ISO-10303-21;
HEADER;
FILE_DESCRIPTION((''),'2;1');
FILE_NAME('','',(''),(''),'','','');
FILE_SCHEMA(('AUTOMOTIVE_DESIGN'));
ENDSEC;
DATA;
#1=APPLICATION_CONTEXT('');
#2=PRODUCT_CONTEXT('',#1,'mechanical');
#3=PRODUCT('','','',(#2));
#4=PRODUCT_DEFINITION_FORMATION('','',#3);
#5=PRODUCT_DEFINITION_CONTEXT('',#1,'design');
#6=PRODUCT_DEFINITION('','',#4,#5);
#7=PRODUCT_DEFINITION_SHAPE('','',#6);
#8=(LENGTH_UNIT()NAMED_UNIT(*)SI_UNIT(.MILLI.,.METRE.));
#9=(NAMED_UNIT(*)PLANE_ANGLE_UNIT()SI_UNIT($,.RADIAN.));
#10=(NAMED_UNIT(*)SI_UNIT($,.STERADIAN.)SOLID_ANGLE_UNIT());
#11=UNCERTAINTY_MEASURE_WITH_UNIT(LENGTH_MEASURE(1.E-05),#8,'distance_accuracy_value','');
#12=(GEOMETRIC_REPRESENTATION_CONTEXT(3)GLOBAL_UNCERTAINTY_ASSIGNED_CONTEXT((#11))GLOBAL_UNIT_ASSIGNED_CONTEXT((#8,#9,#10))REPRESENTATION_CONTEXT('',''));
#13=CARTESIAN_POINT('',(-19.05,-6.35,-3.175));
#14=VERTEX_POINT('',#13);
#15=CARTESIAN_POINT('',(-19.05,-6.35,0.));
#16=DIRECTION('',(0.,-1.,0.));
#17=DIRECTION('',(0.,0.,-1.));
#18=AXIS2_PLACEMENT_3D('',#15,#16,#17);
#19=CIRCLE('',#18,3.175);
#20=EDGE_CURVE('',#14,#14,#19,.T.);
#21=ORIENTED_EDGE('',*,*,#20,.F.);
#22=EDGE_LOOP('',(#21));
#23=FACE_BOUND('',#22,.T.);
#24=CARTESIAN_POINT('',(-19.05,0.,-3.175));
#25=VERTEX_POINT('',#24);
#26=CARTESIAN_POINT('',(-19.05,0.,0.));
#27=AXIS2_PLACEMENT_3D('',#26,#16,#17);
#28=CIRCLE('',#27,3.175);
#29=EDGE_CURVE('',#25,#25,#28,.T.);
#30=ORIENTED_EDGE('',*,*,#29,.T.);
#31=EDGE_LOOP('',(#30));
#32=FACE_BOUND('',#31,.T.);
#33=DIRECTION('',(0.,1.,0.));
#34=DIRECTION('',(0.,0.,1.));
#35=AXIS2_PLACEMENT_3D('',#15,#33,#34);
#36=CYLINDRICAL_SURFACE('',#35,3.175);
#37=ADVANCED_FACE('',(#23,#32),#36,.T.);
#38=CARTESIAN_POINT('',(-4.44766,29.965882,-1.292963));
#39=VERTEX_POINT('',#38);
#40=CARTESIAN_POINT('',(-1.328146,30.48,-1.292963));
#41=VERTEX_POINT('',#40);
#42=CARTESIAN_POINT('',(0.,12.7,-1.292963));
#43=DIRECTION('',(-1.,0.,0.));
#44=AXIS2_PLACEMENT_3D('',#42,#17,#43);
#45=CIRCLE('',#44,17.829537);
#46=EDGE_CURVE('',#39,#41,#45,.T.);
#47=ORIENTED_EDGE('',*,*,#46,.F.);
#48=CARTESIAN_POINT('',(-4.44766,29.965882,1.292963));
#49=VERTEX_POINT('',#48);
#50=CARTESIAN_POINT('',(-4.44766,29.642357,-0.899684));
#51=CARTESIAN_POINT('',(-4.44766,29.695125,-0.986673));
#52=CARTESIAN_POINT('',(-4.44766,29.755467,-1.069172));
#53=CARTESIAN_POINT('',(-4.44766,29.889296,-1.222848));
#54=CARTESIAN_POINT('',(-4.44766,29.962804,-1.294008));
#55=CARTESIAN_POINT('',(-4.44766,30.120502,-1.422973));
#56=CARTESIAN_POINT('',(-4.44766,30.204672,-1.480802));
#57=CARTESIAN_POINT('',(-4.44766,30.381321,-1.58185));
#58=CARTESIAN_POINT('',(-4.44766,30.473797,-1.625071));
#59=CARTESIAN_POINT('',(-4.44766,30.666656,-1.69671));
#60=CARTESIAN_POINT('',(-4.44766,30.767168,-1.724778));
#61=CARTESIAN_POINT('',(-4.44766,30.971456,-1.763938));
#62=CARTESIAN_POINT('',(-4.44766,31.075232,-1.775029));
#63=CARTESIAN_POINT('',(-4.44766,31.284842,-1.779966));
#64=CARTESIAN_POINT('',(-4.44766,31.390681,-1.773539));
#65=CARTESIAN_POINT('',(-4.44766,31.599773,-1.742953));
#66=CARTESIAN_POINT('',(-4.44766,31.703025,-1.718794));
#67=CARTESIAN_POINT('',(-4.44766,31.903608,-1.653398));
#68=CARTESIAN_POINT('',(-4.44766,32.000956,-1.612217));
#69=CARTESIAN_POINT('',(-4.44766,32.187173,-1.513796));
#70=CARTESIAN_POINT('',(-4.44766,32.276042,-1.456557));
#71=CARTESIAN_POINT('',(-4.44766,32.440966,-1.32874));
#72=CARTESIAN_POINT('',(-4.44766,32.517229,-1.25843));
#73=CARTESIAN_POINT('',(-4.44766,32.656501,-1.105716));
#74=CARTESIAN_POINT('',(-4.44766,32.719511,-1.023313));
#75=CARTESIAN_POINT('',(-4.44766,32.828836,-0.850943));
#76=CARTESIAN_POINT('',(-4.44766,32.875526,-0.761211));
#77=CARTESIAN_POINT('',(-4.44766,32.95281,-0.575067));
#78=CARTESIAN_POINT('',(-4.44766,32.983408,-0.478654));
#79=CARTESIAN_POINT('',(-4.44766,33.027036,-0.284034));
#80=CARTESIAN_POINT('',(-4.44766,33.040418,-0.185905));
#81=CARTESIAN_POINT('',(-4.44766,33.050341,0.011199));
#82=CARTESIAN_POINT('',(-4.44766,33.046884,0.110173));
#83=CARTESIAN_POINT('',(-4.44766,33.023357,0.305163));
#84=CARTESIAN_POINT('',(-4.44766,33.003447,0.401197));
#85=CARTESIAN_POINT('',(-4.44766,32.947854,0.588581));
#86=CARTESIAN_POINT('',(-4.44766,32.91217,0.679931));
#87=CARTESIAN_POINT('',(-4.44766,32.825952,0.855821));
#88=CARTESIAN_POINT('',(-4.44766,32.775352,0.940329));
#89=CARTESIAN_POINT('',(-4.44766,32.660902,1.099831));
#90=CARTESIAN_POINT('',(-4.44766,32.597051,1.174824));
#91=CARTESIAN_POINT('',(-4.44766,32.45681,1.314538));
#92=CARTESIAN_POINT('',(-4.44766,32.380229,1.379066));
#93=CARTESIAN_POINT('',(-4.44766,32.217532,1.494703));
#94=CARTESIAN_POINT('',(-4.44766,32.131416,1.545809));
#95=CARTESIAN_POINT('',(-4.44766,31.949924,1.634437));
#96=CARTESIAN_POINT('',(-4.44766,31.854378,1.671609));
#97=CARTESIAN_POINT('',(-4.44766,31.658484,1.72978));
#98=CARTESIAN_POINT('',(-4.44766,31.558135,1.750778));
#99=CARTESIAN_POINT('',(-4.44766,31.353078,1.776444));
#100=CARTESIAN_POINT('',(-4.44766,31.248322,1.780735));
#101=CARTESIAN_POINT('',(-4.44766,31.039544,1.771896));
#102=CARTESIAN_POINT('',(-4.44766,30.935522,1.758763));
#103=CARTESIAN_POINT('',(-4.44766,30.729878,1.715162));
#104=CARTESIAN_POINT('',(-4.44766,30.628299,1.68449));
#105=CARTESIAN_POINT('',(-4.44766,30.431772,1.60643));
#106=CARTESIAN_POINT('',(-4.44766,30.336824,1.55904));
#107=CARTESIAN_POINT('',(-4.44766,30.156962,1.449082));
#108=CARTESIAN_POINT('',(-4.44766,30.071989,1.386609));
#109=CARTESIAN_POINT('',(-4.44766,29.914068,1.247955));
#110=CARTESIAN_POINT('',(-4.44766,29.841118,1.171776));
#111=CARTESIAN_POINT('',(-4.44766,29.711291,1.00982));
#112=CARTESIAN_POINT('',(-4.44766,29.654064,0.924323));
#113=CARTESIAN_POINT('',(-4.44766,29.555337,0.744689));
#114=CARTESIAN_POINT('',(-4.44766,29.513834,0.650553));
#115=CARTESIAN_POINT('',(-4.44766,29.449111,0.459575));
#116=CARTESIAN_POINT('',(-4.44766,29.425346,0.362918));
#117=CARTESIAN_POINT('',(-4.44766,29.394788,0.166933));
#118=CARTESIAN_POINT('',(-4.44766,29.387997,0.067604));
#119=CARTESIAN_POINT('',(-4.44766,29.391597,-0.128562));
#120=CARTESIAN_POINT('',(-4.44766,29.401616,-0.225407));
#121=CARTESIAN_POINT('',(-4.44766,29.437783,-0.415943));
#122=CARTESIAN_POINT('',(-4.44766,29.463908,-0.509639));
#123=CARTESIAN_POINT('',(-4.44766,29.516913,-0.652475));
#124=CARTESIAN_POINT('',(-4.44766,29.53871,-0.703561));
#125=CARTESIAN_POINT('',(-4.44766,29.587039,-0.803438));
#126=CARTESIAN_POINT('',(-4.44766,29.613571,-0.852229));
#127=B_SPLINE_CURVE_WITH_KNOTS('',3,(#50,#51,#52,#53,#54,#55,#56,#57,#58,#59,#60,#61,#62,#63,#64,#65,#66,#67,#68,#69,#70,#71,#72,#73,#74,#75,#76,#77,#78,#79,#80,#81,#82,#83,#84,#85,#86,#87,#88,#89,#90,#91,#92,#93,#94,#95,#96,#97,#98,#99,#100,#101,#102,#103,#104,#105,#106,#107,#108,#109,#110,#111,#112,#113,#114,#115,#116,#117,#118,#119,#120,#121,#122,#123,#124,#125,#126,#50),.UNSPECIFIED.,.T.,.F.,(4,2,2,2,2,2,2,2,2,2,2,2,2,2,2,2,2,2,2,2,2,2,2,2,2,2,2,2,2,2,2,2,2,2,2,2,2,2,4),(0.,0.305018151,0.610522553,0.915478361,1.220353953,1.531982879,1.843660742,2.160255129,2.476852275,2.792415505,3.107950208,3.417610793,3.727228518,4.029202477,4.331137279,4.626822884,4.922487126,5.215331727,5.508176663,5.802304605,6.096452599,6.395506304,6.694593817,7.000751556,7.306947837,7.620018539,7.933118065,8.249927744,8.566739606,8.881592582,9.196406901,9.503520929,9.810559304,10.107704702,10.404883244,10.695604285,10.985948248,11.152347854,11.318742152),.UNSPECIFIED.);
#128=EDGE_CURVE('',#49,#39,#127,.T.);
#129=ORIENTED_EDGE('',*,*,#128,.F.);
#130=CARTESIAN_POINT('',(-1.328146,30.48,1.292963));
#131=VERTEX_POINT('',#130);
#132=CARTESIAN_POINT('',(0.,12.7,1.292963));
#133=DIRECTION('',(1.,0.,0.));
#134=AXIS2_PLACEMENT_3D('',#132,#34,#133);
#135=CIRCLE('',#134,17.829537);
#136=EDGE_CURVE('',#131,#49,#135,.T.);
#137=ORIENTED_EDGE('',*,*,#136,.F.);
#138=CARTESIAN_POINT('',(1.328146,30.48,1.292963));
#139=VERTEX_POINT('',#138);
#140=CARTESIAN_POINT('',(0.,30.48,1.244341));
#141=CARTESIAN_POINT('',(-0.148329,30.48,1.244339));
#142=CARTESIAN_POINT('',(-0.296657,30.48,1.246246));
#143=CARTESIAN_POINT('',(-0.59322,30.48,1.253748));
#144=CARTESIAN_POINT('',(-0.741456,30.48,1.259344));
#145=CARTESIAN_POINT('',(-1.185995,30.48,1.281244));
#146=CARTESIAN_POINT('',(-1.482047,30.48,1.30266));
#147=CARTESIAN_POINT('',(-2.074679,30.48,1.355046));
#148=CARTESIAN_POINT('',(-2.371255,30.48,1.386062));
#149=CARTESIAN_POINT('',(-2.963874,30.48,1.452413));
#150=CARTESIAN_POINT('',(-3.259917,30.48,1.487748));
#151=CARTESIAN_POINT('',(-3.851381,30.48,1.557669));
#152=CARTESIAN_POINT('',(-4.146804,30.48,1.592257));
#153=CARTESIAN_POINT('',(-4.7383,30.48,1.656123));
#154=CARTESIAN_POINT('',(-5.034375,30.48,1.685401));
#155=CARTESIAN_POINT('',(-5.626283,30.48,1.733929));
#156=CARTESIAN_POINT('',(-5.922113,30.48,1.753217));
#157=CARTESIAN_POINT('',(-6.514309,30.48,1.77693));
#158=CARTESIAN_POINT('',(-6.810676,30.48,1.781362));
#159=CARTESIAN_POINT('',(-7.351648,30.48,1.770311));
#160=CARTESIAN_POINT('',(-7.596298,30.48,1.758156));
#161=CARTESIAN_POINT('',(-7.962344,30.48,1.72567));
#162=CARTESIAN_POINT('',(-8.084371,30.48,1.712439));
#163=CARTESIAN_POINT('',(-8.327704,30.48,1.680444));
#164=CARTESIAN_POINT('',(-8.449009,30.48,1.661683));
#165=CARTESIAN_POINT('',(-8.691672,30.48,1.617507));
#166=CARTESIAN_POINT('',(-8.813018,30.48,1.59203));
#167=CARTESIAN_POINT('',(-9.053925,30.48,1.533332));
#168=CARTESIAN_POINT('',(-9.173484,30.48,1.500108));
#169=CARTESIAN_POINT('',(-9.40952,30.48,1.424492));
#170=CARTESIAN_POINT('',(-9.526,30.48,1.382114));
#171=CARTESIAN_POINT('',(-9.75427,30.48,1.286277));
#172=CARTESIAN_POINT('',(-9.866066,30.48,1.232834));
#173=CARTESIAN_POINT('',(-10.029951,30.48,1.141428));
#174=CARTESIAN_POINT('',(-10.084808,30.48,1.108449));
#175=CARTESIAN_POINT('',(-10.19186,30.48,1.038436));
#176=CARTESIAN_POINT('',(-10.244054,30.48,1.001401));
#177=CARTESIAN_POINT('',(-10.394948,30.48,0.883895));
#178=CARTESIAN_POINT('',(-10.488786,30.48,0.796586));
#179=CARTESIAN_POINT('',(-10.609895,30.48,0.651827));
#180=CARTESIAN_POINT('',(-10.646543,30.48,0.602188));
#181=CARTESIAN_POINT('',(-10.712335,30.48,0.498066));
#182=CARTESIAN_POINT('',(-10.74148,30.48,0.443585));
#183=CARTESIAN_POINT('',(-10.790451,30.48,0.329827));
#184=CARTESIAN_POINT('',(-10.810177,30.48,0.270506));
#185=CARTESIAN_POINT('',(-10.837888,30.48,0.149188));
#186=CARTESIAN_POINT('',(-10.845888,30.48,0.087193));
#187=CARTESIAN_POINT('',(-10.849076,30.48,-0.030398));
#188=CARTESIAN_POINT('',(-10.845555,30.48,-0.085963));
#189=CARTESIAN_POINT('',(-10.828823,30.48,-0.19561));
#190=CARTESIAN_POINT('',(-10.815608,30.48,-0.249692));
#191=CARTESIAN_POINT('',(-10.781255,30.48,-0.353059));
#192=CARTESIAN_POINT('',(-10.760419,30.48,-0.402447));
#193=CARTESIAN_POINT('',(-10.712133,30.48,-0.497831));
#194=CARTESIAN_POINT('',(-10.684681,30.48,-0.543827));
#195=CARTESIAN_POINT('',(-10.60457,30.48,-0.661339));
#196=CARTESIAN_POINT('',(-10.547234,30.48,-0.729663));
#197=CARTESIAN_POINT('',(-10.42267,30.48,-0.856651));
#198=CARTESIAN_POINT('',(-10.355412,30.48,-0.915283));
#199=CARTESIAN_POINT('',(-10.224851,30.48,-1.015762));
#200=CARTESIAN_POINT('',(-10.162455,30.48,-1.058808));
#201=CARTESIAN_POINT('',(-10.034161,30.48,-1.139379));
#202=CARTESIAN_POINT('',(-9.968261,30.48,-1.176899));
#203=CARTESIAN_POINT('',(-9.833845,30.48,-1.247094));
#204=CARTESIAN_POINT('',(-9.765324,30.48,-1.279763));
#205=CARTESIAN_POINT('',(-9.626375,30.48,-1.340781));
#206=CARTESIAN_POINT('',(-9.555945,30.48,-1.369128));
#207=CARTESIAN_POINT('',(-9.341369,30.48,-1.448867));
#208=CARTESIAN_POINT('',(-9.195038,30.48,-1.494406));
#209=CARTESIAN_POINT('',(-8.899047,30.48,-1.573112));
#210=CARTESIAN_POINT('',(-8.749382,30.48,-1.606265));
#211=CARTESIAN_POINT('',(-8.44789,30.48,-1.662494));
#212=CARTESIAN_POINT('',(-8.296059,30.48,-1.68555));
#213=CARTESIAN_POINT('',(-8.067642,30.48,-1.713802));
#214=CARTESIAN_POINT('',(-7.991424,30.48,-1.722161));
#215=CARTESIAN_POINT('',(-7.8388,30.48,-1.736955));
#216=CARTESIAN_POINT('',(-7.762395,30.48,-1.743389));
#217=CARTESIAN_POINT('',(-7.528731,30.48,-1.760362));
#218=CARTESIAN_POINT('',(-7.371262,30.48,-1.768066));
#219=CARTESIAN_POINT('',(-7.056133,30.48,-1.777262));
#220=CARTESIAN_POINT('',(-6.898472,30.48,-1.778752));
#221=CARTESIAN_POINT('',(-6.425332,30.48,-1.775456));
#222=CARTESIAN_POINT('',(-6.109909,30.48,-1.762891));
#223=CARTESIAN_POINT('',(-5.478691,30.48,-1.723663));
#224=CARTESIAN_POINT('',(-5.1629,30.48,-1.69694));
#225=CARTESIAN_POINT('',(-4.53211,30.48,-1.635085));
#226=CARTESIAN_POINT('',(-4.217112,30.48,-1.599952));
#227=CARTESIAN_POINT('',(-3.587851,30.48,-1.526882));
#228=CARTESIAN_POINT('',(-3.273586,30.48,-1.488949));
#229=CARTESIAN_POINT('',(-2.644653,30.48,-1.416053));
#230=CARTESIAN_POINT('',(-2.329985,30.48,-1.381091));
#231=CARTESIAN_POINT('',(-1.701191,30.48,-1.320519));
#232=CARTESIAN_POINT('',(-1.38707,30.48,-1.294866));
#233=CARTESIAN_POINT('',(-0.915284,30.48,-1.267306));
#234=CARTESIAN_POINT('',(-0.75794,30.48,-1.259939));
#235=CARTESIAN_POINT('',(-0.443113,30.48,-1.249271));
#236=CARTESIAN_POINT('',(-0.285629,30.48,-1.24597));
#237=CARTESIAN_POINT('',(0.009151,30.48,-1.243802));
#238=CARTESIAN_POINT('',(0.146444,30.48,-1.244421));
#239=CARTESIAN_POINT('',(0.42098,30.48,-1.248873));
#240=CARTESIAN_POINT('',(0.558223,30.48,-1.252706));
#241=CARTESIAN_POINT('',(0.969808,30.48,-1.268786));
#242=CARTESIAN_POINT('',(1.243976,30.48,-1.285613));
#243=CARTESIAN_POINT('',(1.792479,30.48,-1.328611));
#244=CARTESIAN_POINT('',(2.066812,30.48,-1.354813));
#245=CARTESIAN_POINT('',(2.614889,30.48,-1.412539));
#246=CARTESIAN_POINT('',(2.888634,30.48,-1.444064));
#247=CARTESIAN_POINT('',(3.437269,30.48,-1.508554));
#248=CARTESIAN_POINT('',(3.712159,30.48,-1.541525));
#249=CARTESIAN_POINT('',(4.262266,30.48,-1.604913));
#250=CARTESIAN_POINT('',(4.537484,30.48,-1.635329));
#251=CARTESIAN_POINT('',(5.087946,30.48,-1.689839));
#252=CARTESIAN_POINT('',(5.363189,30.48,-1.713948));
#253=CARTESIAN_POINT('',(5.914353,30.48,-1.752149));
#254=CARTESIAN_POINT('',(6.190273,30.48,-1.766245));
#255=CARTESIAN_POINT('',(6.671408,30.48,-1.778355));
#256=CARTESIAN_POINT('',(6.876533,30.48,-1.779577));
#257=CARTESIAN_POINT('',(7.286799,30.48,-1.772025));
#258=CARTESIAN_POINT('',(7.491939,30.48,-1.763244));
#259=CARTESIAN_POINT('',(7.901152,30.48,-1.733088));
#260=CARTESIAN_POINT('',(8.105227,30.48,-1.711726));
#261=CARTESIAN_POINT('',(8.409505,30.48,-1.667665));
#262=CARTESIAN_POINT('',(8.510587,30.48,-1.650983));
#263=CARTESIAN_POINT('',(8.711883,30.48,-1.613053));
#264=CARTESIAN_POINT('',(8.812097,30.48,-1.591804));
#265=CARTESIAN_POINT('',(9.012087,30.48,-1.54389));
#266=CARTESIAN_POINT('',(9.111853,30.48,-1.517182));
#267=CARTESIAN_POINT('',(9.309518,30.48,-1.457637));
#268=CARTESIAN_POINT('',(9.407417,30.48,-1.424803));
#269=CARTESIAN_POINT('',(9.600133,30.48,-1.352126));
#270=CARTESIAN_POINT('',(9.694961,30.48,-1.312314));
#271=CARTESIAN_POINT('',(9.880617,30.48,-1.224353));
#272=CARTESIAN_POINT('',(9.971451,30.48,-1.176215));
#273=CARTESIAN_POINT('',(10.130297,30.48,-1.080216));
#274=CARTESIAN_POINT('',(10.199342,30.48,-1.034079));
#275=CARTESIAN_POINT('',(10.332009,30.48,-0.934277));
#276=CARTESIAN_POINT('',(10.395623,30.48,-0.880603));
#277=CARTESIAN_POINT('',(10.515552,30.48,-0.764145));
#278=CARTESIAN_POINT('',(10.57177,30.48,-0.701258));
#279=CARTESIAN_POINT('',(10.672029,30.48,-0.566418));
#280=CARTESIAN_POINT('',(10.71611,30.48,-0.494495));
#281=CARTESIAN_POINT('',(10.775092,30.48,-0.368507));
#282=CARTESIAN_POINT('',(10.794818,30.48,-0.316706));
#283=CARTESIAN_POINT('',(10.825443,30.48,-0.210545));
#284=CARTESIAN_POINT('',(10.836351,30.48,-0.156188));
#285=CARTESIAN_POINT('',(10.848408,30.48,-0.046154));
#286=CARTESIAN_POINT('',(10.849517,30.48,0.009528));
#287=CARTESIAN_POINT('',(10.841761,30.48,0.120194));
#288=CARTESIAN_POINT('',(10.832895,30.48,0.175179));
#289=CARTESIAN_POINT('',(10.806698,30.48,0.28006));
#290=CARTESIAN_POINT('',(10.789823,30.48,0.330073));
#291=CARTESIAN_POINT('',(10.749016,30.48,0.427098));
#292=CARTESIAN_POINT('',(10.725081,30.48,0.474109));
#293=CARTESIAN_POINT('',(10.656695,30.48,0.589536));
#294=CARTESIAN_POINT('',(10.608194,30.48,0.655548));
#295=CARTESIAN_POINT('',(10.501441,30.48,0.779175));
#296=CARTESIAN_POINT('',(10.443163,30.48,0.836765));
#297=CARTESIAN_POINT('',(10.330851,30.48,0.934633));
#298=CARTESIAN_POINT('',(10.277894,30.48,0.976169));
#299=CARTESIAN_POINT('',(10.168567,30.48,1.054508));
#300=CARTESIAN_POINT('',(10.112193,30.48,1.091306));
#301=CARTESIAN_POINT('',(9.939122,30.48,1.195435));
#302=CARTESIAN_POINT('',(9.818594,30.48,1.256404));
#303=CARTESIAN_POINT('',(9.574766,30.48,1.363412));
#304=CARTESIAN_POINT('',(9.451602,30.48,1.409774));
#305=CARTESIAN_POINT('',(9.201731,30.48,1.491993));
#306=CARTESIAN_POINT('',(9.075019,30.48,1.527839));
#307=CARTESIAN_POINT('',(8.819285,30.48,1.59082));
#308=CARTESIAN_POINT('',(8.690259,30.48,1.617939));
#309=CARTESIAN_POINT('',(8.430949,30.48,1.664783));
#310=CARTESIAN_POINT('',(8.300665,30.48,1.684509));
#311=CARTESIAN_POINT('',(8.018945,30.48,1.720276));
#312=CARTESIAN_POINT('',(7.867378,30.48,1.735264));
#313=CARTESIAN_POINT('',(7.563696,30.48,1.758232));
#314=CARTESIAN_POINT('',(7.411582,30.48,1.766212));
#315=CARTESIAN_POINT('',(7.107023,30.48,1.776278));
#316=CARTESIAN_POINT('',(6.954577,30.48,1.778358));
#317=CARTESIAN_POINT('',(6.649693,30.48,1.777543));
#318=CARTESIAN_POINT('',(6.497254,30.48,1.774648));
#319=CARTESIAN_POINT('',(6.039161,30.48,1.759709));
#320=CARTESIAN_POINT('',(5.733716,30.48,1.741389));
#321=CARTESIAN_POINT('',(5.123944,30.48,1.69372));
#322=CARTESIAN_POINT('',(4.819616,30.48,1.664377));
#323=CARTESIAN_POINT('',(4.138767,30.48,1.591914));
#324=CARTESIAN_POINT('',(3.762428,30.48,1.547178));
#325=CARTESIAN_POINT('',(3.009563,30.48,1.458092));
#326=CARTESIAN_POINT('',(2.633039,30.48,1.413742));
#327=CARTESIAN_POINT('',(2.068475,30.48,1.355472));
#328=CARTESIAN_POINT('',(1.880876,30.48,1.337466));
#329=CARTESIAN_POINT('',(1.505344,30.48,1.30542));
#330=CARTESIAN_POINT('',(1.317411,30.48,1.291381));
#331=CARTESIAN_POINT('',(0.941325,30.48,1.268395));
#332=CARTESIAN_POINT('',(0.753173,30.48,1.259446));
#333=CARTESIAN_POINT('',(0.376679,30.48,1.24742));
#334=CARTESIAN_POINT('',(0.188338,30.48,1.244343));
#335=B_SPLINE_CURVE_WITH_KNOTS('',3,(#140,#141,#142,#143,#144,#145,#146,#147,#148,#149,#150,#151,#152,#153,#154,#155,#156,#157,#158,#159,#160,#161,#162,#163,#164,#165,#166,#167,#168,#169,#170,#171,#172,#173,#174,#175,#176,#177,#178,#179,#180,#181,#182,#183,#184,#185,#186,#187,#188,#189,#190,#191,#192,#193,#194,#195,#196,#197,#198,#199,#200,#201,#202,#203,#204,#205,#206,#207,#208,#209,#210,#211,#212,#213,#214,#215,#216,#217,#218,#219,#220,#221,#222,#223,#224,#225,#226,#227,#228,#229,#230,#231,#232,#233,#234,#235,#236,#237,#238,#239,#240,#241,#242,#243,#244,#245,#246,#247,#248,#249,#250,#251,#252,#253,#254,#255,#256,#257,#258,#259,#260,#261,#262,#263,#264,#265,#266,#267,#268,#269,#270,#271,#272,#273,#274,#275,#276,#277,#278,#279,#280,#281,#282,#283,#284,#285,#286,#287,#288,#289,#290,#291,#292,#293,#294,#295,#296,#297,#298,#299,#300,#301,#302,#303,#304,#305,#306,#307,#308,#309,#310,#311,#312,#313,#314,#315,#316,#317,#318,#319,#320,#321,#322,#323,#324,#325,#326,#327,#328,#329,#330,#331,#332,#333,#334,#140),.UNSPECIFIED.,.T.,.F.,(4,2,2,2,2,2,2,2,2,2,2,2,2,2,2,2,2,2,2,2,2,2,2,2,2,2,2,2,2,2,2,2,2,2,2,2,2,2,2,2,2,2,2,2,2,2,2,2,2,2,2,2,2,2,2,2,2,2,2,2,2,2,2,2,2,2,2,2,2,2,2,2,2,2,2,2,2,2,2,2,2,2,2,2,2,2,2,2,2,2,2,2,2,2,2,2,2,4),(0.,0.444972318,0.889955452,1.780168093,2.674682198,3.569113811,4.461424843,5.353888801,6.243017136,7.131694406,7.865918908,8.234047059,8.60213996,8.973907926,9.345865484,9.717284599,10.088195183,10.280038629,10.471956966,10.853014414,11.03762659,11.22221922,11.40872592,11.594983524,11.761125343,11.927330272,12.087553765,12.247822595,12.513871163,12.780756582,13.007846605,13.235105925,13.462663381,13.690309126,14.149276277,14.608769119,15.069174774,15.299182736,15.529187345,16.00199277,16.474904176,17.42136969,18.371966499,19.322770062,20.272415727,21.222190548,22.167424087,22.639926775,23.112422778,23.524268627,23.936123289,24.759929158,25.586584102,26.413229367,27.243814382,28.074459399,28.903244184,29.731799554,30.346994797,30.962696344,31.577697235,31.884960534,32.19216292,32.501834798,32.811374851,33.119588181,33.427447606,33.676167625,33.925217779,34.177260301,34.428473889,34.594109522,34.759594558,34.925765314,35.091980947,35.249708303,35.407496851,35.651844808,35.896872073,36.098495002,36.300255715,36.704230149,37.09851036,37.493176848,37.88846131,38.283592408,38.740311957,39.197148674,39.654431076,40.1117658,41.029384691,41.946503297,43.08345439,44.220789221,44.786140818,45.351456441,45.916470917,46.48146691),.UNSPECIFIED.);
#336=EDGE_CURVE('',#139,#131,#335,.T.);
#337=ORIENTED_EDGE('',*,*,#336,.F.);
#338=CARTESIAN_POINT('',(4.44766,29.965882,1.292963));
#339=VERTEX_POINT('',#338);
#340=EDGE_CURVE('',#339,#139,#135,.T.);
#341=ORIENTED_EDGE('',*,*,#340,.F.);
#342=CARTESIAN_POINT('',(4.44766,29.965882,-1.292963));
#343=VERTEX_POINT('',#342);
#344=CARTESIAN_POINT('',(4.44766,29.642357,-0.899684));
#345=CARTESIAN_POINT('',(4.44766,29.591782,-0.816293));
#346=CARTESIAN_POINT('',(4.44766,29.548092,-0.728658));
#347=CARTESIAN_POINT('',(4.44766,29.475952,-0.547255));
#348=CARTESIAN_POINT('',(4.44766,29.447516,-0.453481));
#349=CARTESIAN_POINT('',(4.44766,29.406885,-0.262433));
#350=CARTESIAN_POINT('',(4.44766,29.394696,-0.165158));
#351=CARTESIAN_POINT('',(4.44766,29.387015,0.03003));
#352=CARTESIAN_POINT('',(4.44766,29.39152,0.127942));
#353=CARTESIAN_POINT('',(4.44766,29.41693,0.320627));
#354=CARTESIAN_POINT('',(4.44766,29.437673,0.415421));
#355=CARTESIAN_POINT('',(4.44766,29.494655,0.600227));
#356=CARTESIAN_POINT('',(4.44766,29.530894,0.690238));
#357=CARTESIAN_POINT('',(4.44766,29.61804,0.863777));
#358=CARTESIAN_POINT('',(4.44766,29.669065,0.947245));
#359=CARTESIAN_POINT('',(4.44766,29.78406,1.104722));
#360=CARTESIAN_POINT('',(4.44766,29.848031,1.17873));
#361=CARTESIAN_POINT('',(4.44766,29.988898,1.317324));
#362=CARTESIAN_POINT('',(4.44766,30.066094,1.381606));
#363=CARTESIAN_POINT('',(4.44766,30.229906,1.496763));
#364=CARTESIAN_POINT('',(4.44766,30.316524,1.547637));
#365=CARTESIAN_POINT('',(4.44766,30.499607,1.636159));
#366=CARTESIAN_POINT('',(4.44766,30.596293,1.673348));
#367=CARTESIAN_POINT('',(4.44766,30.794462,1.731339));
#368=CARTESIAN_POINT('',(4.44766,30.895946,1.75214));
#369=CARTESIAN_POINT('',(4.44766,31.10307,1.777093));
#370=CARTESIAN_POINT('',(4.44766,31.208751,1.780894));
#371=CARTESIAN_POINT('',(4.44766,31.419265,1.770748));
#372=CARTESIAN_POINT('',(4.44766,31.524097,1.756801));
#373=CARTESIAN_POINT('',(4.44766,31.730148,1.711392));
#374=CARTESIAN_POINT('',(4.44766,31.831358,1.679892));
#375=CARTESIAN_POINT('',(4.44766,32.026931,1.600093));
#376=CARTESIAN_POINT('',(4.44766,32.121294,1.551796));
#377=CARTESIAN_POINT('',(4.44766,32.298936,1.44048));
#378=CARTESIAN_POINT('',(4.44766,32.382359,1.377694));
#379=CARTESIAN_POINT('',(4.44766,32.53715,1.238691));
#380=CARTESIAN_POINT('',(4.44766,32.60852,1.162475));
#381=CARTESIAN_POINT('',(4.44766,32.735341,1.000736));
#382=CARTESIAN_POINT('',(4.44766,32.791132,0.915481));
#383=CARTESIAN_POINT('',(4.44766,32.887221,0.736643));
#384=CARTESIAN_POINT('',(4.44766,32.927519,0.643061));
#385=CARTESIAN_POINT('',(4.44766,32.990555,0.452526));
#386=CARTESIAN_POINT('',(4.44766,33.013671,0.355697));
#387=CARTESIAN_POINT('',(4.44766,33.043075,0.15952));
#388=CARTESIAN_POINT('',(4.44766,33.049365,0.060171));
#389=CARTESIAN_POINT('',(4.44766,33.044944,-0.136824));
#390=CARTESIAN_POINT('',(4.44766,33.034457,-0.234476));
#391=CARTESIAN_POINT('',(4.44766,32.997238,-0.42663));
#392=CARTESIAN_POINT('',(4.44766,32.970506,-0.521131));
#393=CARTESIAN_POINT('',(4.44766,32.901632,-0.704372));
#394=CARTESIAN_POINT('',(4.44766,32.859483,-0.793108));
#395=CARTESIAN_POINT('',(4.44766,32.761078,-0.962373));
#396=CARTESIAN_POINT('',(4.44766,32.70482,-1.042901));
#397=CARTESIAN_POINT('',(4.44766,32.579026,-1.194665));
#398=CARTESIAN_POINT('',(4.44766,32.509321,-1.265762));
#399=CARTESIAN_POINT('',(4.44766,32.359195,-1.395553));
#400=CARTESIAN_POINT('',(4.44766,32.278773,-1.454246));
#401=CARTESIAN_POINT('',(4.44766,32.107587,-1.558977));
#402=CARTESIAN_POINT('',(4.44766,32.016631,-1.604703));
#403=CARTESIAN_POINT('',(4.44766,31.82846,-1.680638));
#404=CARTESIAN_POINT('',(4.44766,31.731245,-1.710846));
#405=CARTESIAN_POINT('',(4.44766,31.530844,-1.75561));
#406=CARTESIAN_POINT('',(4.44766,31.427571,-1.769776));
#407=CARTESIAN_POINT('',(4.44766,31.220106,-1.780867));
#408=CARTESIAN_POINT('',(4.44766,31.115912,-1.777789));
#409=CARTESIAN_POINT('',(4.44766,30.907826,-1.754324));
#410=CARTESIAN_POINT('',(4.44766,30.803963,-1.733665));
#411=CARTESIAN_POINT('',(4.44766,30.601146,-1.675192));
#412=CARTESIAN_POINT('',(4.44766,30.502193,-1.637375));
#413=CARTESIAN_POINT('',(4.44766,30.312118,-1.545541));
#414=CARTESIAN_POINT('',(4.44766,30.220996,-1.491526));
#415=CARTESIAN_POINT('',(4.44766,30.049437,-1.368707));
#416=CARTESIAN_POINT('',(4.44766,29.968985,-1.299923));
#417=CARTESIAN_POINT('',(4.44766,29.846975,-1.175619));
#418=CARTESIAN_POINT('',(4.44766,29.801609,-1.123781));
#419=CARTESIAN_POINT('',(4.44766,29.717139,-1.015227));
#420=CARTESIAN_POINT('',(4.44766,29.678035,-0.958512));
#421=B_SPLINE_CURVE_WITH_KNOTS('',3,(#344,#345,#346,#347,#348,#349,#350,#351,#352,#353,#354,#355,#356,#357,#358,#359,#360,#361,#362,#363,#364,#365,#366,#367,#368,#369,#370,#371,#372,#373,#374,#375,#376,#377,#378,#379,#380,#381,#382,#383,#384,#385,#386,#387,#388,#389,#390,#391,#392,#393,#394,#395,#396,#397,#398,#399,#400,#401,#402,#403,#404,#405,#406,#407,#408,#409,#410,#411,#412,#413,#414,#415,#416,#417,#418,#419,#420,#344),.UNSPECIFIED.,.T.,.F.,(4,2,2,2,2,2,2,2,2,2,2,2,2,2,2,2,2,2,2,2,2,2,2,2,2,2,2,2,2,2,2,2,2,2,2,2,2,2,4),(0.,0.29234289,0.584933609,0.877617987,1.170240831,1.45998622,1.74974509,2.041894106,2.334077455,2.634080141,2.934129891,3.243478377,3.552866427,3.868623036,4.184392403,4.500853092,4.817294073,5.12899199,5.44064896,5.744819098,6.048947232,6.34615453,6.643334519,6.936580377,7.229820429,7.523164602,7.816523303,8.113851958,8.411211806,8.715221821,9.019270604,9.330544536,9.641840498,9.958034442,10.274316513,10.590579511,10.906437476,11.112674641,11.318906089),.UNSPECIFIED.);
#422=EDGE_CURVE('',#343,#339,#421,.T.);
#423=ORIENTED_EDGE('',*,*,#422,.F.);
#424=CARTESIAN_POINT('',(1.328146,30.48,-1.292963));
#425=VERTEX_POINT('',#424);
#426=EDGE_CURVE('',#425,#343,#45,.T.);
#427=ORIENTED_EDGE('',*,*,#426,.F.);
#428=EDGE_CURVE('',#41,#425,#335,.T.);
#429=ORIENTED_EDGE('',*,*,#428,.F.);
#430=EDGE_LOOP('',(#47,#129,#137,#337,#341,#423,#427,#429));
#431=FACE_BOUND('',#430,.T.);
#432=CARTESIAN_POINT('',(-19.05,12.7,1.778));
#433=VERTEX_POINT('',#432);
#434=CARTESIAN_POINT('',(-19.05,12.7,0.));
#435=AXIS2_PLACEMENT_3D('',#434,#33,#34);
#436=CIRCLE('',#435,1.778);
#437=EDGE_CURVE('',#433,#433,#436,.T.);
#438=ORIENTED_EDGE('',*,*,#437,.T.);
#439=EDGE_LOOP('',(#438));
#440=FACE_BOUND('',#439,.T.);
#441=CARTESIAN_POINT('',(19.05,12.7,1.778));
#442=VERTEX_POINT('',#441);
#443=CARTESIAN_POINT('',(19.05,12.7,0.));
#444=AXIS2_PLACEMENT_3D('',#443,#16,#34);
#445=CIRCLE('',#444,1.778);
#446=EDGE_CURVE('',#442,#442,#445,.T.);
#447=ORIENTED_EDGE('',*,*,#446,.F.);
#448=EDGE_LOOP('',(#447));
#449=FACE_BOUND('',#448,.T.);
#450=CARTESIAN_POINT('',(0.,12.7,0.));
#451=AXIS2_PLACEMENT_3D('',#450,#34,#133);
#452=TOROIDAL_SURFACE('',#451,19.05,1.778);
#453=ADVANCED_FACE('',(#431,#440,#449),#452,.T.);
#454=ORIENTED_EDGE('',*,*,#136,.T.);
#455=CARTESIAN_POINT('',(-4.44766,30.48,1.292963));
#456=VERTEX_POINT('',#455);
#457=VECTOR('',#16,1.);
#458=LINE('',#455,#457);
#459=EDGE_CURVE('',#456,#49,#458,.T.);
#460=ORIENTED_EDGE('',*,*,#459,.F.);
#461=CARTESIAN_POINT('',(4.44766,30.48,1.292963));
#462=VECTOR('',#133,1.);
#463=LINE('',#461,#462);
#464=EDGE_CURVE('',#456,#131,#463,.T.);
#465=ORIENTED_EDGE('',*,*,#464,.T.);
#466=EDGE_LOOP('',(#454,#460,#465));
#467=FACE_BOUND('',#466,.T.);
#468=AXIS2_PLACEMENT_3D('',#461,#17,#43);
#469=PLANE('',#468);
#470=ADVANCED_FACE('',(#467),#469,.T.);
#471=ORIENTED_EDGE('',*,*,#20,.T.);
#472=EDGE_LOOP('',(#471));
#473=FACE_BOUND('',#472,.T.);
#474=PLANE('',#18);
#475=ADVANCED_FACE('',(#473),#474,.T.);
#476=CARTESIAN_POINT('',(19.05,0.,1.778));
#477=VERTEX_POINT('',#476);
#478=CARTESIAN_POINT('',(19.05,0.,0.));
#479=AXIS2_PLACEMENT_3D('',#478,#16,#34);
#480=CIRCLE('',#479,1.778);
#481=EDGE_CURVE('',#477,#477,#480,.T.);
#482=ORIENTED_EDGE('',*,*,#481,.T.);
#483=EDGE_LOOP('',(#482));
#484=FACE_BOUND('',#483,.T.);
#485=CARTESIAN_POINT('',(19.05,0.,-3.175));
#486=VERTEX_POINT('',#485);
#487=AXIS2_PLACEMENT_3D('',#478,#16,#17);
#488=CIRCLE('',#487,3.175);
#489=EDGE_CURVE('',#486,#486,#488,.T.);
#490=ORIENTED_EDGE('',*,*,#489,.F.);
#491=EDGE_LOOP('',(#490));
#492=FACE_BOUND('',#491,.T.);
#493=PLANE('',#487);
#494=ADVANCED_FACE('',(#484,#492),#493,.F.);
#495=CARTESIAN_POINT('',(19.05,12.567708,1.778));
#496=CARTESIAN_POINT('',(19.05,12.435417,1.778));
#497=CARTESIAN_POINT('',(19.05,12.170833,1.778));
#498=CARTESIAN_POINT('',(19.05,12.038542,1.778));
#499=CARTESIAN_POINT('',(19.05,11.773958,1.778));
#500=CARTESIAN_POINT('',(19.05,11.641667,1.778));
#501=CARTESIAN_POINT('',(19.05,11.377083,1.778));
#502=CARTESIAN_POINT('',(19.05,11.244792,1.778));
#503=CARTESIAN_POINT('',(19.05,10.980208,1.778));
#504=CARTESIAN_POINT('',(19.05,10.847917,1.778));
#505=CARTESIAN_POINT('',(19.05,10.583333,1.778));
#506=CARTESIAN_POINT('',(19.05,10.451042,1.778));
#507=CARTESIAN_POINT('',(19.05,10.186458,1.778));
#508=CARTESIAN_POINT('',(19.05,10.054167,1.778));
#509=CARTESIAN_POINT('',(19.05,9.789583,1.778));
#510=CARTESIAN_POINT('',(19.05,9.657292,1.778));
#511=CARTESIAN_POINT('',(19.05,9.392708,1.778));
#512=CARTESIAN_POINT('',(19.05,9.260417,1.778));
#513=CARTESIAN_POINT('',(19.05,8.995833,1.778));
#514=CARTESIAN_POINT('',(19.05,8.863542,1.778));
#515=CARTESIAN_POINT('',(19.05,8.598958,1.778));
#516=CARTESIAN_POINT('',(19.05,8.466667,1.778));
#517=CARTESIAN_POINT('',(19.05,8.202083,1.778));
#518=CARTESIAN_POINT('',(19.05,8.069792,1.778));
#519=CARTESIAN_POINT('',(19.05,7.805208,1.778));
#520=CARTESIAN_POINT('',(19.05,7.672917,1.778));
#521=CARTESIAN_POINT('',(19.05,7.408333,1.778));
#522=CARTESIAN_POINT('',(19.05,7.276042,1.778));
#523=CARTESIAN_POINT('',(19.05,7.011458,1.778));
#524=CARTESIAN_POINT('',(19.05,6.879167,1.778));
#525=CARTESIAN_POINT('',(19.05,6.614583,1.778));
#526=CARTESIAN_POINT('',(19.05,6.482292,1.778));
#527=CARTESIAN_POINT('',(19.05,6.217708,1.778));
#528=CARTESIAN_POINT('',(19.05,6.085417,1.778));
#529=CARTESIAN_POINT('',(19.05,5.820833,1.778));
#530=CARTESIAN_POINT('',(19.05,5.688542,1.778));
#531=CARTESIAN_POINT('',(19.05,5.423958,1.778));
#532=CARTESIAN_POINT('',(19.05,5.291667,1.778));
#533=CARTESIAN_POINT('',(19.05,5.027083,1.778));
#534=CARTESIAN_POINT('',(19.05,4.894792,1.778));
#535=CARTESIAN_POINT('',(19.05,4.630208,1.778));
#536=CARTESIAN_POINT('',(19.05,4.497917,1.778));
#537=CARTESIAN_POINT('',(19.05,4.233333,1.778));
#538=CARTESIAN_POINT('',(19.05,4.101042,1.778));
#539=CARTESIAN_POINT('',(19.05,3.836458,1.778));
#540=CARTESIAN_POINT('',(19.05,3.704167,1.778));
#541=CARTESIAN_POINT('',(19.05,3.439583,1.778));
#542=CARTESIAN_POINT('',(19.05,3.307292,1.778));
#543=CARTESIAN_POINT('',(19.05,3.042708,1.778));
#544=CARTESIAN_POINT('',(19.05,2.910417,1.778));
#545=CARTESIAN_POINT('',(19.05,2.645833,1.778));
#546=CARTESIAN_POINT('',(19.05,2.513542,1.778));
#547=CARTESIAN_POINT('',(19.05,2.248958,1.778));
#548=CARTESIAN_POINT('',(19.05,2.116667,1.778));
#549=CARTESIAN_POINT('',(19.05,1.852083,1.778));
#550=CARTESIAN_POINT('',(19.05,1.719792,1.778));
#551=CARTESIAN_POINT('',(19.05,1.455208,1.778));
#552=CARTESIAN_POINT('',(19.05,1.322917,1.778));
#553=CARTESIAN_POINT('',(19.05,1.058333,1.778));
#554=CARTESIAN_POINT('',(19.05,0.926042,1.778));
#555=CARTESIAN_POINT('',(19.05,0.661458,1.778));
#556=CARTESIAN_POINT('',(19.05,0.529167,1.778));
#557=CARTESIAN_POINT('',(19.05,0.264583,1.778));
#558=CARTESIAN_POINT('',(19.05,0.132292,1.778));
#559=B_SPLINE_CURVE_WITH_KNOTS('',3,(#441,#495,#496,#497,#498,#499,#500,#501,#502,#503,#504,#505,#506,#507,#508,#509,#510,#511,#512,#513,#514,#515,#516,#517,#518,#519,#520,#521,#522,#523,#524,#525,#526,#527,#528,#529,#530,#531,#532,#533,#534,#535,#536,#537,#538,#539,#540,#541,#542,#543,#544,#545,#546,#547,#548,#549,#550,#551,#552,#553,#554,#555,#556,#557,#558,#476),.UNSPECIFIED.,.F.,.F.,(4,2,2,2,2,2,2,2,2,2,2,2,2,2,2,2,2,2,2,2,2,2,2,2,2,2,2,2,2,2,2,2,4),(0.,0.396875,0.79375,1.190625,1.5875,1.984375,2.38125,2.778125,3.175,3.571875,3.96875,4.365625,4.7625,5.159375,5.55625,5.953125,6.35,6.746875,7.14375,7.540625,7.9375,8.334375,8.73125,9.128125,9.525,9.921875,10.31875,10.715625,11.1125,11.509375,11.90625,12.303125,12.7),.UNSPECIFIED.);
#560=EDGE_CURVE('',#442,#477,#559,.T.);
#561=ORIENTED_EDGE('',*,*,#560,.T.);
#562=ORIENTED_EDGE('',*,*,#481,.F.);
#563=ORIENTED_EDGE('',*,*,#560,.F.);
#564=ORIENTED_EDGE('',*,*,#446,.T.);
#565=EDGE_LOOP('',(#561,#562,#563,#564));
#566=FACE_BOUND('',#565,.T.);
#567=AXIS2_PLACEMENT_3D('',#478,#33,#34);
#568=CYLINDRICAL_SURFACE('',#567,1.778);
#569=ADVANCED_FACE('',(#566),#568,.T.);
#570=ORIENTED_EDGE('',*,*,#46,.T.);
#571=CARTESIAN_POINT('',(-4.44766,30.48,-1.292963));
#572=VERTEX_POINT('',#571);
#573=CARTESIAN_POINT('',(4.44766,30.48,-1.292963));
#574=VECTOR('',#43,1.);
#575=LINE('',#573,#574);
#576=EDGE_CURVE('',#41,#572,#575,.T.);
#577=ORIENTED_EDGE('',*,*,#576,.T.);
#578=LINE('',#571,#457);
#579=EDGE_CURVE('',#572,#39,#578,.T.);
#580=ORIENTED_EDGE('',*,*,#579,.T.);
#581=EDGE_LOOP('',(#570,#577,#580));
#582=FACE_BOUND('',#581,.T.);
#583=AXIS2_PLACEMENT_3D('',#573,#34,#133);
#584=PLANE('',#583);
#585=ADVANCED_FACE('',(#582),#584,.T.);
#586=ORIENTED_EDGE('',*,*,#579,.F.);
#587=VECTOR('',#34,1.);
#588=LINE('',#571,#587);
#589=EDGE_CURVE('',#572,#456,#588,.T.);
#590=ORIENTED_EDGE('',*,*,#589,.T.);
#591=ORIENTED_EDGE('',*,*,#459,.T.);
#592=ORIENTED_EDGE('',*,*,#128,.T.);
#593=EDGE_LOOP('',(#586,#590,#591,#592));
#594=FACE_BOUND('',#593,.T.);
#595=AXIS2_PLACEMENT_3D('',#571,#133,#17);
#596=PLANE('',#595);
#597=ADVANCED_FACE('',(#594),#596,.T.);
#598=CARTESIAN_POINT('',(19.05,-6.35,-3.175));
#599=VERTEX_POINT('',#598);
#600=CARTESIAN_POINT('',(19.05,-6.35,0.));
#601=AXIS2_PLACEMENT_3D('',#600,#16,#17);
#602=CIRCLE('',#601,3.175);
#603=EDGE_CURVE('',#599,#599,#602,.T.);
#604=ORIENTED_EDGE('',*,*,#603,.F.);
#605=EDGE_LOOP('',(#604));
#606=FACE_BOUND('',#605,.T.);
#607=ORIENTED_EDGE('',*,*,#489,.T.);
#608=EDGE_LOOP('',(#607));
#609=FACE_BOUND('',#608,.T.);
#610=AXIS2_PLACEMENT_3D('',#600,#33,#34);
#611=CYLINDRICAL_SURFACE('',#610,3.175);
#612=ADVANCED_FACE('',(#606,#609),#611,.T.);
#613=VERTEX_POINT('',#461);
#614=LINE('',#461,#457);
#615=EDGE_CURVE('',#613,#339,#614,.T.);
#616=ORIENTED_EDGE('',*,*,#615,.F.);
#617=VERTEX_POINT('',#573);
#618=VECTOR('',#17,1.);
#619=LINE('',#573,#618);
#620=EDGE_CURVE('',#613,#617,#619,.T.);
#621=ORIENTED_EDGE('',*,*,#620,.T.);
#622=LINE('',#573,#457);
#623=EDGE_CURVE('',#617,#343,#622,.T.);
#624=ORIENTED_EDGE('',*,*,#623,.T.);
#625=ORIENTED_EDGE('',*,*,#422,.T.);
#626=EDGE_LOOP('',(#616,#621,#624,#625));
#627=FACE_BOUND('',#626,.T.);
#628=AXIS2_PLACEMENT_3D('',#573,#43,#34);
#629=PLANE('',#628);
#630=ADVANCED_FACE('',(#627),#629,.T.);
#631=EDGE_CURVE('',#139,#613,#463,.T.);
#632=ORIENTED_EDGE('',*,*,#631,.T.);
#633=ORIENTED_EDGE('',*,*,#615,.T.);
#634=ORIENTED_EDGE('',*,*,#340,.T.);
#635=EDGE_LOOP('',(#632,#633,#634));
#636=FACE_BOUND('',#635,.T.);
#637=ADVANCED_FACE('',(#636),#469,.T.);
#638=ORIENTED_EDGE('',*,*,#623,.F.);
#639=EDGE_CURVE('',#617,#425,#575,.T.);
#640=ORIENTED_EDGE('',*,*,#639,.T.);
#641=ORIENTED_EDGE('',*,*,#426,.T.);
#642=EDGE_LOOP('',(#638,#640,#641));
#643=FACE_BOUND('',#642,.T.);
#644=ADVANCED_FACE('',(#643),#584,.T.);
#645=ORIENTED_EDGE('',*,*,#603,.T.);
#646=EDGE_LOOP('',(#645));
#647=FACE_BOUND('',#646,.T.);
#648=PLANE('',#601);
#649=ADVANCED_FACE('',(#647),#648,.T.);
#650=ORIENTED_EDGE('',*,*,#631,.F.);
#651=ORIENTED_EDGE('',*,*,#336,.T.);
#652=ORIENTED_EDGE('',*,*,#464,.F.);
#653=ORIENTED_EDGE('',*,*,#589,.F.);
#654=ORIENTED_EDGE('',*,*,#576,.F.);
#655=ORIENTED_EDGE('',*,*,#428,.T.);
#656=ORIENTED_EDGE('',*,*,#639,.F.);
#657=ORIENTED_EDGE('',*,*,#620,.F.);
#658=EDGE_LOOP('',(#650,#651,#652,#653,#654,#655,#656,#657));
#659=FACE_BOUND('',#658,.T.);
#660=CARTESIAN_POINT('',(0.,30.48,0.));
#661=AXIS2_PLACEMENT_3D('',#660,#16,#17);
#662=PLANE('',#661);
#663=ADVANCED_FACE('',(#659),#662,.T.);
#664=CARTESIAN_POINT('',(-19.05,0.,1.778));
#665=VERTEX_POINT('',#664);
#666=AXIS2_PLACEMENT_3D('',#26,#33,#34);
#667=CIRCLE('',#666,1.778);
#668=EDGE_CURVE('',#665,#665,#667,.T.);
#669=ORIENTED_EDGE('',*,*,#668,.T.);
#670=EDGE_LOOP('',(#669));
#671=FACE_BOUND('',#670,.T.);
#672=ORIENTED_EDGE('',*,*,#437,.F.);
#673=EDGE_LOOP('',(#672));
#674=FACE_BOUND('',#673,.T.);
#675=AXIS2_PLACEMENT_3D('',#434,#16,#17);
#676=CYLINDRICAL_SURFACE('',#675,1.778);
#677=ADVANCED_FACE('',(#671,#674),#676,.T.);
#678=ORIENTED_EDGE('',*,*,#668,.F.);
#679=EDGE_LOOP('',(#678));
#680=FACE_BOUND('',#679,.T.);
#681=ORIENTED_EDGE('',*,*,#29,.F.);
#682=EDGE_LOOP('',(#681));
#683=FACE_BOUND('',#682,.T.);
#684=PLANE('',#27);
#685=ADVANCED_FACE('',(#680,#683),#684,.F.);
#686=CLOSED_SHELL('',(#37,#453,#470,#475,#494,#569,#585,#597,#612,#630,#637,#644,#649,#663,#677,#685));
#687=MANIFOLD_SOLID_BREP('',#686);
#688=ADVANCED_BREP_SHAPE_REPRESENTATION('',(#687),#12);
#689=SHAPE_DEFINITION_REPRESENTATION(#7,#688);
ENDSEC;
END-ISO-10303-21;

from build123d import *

# Parameters (mm, degrees)
SKETCH3_R           = 1.778
SKETCH4_R           = 3.175
BOSS_EXTRUDE1_DEPTH = 6.35
SKETCH5_R           = 3.175
BOSS_EXTRUDE2_DEPTH = 6.35
SKETCH6_W           = 8.89531995
SKETCH6_H           = 2.585925644
CUT_EXTRUDE1_DEPTH  = 2.54


with BuildPart() as part:
    # Sweep1: sweep along a path in Sketch2
    with BuildLine(Plane.XY) as sweep1_path:
        Line((-19.05, 0), (-19.05, 12.7))
        ThreePointArc((-19.05, 12.7), (0, 31.75), (19.05, 12.7))
        Line((19.05, 12.7), (19.05, 0))
    # Sketch3 → Sweep1 (sweep)
    with BuildSketch(Plane(origin=(0, 0, 0), x_dir=(1, 0, 0), z_dir=(0, 1, 0))):
        with Locations((-19.05, 0)):
            Circle(SKETCH3_R)
    sweep(path=sweep1_path.line)

    # Sketch4 → Boss-Extrude1 (add)
    with BuildSketch(Plane.XZ):
        with Locations(Location((-19.05, 0, 0), (0, 0, 270))):
            Circle(SKETCH4_R)
    extrude(amount=BOSS_EXTRUDE1_DEPTH)

    # Sketch5 → Boss-Extrude2 (add)
    with BuildSketch(Plane.XZ):
        with Locations(Location((19.05, 0, 0), (0, 0, 270))):
            Circle(SKETCH5_R)
    extrude(amount=BOSS_EXTRUDE2_DEPTH)

    # Sketch6 → Cut-Extrude1 (cut)
    with BuildSketch(Plane(origin=(0, 27.94, 0), x_dir=(1, 0, 0), z_dir=(0, 1, 0))):
        Rectangle(SKETCH6_W, SKETCH6_H)
    extrude(amount=CUT_EXTRUDE1_DEPTH, mode=Mode.SUBTRACT)


solid = part.part
